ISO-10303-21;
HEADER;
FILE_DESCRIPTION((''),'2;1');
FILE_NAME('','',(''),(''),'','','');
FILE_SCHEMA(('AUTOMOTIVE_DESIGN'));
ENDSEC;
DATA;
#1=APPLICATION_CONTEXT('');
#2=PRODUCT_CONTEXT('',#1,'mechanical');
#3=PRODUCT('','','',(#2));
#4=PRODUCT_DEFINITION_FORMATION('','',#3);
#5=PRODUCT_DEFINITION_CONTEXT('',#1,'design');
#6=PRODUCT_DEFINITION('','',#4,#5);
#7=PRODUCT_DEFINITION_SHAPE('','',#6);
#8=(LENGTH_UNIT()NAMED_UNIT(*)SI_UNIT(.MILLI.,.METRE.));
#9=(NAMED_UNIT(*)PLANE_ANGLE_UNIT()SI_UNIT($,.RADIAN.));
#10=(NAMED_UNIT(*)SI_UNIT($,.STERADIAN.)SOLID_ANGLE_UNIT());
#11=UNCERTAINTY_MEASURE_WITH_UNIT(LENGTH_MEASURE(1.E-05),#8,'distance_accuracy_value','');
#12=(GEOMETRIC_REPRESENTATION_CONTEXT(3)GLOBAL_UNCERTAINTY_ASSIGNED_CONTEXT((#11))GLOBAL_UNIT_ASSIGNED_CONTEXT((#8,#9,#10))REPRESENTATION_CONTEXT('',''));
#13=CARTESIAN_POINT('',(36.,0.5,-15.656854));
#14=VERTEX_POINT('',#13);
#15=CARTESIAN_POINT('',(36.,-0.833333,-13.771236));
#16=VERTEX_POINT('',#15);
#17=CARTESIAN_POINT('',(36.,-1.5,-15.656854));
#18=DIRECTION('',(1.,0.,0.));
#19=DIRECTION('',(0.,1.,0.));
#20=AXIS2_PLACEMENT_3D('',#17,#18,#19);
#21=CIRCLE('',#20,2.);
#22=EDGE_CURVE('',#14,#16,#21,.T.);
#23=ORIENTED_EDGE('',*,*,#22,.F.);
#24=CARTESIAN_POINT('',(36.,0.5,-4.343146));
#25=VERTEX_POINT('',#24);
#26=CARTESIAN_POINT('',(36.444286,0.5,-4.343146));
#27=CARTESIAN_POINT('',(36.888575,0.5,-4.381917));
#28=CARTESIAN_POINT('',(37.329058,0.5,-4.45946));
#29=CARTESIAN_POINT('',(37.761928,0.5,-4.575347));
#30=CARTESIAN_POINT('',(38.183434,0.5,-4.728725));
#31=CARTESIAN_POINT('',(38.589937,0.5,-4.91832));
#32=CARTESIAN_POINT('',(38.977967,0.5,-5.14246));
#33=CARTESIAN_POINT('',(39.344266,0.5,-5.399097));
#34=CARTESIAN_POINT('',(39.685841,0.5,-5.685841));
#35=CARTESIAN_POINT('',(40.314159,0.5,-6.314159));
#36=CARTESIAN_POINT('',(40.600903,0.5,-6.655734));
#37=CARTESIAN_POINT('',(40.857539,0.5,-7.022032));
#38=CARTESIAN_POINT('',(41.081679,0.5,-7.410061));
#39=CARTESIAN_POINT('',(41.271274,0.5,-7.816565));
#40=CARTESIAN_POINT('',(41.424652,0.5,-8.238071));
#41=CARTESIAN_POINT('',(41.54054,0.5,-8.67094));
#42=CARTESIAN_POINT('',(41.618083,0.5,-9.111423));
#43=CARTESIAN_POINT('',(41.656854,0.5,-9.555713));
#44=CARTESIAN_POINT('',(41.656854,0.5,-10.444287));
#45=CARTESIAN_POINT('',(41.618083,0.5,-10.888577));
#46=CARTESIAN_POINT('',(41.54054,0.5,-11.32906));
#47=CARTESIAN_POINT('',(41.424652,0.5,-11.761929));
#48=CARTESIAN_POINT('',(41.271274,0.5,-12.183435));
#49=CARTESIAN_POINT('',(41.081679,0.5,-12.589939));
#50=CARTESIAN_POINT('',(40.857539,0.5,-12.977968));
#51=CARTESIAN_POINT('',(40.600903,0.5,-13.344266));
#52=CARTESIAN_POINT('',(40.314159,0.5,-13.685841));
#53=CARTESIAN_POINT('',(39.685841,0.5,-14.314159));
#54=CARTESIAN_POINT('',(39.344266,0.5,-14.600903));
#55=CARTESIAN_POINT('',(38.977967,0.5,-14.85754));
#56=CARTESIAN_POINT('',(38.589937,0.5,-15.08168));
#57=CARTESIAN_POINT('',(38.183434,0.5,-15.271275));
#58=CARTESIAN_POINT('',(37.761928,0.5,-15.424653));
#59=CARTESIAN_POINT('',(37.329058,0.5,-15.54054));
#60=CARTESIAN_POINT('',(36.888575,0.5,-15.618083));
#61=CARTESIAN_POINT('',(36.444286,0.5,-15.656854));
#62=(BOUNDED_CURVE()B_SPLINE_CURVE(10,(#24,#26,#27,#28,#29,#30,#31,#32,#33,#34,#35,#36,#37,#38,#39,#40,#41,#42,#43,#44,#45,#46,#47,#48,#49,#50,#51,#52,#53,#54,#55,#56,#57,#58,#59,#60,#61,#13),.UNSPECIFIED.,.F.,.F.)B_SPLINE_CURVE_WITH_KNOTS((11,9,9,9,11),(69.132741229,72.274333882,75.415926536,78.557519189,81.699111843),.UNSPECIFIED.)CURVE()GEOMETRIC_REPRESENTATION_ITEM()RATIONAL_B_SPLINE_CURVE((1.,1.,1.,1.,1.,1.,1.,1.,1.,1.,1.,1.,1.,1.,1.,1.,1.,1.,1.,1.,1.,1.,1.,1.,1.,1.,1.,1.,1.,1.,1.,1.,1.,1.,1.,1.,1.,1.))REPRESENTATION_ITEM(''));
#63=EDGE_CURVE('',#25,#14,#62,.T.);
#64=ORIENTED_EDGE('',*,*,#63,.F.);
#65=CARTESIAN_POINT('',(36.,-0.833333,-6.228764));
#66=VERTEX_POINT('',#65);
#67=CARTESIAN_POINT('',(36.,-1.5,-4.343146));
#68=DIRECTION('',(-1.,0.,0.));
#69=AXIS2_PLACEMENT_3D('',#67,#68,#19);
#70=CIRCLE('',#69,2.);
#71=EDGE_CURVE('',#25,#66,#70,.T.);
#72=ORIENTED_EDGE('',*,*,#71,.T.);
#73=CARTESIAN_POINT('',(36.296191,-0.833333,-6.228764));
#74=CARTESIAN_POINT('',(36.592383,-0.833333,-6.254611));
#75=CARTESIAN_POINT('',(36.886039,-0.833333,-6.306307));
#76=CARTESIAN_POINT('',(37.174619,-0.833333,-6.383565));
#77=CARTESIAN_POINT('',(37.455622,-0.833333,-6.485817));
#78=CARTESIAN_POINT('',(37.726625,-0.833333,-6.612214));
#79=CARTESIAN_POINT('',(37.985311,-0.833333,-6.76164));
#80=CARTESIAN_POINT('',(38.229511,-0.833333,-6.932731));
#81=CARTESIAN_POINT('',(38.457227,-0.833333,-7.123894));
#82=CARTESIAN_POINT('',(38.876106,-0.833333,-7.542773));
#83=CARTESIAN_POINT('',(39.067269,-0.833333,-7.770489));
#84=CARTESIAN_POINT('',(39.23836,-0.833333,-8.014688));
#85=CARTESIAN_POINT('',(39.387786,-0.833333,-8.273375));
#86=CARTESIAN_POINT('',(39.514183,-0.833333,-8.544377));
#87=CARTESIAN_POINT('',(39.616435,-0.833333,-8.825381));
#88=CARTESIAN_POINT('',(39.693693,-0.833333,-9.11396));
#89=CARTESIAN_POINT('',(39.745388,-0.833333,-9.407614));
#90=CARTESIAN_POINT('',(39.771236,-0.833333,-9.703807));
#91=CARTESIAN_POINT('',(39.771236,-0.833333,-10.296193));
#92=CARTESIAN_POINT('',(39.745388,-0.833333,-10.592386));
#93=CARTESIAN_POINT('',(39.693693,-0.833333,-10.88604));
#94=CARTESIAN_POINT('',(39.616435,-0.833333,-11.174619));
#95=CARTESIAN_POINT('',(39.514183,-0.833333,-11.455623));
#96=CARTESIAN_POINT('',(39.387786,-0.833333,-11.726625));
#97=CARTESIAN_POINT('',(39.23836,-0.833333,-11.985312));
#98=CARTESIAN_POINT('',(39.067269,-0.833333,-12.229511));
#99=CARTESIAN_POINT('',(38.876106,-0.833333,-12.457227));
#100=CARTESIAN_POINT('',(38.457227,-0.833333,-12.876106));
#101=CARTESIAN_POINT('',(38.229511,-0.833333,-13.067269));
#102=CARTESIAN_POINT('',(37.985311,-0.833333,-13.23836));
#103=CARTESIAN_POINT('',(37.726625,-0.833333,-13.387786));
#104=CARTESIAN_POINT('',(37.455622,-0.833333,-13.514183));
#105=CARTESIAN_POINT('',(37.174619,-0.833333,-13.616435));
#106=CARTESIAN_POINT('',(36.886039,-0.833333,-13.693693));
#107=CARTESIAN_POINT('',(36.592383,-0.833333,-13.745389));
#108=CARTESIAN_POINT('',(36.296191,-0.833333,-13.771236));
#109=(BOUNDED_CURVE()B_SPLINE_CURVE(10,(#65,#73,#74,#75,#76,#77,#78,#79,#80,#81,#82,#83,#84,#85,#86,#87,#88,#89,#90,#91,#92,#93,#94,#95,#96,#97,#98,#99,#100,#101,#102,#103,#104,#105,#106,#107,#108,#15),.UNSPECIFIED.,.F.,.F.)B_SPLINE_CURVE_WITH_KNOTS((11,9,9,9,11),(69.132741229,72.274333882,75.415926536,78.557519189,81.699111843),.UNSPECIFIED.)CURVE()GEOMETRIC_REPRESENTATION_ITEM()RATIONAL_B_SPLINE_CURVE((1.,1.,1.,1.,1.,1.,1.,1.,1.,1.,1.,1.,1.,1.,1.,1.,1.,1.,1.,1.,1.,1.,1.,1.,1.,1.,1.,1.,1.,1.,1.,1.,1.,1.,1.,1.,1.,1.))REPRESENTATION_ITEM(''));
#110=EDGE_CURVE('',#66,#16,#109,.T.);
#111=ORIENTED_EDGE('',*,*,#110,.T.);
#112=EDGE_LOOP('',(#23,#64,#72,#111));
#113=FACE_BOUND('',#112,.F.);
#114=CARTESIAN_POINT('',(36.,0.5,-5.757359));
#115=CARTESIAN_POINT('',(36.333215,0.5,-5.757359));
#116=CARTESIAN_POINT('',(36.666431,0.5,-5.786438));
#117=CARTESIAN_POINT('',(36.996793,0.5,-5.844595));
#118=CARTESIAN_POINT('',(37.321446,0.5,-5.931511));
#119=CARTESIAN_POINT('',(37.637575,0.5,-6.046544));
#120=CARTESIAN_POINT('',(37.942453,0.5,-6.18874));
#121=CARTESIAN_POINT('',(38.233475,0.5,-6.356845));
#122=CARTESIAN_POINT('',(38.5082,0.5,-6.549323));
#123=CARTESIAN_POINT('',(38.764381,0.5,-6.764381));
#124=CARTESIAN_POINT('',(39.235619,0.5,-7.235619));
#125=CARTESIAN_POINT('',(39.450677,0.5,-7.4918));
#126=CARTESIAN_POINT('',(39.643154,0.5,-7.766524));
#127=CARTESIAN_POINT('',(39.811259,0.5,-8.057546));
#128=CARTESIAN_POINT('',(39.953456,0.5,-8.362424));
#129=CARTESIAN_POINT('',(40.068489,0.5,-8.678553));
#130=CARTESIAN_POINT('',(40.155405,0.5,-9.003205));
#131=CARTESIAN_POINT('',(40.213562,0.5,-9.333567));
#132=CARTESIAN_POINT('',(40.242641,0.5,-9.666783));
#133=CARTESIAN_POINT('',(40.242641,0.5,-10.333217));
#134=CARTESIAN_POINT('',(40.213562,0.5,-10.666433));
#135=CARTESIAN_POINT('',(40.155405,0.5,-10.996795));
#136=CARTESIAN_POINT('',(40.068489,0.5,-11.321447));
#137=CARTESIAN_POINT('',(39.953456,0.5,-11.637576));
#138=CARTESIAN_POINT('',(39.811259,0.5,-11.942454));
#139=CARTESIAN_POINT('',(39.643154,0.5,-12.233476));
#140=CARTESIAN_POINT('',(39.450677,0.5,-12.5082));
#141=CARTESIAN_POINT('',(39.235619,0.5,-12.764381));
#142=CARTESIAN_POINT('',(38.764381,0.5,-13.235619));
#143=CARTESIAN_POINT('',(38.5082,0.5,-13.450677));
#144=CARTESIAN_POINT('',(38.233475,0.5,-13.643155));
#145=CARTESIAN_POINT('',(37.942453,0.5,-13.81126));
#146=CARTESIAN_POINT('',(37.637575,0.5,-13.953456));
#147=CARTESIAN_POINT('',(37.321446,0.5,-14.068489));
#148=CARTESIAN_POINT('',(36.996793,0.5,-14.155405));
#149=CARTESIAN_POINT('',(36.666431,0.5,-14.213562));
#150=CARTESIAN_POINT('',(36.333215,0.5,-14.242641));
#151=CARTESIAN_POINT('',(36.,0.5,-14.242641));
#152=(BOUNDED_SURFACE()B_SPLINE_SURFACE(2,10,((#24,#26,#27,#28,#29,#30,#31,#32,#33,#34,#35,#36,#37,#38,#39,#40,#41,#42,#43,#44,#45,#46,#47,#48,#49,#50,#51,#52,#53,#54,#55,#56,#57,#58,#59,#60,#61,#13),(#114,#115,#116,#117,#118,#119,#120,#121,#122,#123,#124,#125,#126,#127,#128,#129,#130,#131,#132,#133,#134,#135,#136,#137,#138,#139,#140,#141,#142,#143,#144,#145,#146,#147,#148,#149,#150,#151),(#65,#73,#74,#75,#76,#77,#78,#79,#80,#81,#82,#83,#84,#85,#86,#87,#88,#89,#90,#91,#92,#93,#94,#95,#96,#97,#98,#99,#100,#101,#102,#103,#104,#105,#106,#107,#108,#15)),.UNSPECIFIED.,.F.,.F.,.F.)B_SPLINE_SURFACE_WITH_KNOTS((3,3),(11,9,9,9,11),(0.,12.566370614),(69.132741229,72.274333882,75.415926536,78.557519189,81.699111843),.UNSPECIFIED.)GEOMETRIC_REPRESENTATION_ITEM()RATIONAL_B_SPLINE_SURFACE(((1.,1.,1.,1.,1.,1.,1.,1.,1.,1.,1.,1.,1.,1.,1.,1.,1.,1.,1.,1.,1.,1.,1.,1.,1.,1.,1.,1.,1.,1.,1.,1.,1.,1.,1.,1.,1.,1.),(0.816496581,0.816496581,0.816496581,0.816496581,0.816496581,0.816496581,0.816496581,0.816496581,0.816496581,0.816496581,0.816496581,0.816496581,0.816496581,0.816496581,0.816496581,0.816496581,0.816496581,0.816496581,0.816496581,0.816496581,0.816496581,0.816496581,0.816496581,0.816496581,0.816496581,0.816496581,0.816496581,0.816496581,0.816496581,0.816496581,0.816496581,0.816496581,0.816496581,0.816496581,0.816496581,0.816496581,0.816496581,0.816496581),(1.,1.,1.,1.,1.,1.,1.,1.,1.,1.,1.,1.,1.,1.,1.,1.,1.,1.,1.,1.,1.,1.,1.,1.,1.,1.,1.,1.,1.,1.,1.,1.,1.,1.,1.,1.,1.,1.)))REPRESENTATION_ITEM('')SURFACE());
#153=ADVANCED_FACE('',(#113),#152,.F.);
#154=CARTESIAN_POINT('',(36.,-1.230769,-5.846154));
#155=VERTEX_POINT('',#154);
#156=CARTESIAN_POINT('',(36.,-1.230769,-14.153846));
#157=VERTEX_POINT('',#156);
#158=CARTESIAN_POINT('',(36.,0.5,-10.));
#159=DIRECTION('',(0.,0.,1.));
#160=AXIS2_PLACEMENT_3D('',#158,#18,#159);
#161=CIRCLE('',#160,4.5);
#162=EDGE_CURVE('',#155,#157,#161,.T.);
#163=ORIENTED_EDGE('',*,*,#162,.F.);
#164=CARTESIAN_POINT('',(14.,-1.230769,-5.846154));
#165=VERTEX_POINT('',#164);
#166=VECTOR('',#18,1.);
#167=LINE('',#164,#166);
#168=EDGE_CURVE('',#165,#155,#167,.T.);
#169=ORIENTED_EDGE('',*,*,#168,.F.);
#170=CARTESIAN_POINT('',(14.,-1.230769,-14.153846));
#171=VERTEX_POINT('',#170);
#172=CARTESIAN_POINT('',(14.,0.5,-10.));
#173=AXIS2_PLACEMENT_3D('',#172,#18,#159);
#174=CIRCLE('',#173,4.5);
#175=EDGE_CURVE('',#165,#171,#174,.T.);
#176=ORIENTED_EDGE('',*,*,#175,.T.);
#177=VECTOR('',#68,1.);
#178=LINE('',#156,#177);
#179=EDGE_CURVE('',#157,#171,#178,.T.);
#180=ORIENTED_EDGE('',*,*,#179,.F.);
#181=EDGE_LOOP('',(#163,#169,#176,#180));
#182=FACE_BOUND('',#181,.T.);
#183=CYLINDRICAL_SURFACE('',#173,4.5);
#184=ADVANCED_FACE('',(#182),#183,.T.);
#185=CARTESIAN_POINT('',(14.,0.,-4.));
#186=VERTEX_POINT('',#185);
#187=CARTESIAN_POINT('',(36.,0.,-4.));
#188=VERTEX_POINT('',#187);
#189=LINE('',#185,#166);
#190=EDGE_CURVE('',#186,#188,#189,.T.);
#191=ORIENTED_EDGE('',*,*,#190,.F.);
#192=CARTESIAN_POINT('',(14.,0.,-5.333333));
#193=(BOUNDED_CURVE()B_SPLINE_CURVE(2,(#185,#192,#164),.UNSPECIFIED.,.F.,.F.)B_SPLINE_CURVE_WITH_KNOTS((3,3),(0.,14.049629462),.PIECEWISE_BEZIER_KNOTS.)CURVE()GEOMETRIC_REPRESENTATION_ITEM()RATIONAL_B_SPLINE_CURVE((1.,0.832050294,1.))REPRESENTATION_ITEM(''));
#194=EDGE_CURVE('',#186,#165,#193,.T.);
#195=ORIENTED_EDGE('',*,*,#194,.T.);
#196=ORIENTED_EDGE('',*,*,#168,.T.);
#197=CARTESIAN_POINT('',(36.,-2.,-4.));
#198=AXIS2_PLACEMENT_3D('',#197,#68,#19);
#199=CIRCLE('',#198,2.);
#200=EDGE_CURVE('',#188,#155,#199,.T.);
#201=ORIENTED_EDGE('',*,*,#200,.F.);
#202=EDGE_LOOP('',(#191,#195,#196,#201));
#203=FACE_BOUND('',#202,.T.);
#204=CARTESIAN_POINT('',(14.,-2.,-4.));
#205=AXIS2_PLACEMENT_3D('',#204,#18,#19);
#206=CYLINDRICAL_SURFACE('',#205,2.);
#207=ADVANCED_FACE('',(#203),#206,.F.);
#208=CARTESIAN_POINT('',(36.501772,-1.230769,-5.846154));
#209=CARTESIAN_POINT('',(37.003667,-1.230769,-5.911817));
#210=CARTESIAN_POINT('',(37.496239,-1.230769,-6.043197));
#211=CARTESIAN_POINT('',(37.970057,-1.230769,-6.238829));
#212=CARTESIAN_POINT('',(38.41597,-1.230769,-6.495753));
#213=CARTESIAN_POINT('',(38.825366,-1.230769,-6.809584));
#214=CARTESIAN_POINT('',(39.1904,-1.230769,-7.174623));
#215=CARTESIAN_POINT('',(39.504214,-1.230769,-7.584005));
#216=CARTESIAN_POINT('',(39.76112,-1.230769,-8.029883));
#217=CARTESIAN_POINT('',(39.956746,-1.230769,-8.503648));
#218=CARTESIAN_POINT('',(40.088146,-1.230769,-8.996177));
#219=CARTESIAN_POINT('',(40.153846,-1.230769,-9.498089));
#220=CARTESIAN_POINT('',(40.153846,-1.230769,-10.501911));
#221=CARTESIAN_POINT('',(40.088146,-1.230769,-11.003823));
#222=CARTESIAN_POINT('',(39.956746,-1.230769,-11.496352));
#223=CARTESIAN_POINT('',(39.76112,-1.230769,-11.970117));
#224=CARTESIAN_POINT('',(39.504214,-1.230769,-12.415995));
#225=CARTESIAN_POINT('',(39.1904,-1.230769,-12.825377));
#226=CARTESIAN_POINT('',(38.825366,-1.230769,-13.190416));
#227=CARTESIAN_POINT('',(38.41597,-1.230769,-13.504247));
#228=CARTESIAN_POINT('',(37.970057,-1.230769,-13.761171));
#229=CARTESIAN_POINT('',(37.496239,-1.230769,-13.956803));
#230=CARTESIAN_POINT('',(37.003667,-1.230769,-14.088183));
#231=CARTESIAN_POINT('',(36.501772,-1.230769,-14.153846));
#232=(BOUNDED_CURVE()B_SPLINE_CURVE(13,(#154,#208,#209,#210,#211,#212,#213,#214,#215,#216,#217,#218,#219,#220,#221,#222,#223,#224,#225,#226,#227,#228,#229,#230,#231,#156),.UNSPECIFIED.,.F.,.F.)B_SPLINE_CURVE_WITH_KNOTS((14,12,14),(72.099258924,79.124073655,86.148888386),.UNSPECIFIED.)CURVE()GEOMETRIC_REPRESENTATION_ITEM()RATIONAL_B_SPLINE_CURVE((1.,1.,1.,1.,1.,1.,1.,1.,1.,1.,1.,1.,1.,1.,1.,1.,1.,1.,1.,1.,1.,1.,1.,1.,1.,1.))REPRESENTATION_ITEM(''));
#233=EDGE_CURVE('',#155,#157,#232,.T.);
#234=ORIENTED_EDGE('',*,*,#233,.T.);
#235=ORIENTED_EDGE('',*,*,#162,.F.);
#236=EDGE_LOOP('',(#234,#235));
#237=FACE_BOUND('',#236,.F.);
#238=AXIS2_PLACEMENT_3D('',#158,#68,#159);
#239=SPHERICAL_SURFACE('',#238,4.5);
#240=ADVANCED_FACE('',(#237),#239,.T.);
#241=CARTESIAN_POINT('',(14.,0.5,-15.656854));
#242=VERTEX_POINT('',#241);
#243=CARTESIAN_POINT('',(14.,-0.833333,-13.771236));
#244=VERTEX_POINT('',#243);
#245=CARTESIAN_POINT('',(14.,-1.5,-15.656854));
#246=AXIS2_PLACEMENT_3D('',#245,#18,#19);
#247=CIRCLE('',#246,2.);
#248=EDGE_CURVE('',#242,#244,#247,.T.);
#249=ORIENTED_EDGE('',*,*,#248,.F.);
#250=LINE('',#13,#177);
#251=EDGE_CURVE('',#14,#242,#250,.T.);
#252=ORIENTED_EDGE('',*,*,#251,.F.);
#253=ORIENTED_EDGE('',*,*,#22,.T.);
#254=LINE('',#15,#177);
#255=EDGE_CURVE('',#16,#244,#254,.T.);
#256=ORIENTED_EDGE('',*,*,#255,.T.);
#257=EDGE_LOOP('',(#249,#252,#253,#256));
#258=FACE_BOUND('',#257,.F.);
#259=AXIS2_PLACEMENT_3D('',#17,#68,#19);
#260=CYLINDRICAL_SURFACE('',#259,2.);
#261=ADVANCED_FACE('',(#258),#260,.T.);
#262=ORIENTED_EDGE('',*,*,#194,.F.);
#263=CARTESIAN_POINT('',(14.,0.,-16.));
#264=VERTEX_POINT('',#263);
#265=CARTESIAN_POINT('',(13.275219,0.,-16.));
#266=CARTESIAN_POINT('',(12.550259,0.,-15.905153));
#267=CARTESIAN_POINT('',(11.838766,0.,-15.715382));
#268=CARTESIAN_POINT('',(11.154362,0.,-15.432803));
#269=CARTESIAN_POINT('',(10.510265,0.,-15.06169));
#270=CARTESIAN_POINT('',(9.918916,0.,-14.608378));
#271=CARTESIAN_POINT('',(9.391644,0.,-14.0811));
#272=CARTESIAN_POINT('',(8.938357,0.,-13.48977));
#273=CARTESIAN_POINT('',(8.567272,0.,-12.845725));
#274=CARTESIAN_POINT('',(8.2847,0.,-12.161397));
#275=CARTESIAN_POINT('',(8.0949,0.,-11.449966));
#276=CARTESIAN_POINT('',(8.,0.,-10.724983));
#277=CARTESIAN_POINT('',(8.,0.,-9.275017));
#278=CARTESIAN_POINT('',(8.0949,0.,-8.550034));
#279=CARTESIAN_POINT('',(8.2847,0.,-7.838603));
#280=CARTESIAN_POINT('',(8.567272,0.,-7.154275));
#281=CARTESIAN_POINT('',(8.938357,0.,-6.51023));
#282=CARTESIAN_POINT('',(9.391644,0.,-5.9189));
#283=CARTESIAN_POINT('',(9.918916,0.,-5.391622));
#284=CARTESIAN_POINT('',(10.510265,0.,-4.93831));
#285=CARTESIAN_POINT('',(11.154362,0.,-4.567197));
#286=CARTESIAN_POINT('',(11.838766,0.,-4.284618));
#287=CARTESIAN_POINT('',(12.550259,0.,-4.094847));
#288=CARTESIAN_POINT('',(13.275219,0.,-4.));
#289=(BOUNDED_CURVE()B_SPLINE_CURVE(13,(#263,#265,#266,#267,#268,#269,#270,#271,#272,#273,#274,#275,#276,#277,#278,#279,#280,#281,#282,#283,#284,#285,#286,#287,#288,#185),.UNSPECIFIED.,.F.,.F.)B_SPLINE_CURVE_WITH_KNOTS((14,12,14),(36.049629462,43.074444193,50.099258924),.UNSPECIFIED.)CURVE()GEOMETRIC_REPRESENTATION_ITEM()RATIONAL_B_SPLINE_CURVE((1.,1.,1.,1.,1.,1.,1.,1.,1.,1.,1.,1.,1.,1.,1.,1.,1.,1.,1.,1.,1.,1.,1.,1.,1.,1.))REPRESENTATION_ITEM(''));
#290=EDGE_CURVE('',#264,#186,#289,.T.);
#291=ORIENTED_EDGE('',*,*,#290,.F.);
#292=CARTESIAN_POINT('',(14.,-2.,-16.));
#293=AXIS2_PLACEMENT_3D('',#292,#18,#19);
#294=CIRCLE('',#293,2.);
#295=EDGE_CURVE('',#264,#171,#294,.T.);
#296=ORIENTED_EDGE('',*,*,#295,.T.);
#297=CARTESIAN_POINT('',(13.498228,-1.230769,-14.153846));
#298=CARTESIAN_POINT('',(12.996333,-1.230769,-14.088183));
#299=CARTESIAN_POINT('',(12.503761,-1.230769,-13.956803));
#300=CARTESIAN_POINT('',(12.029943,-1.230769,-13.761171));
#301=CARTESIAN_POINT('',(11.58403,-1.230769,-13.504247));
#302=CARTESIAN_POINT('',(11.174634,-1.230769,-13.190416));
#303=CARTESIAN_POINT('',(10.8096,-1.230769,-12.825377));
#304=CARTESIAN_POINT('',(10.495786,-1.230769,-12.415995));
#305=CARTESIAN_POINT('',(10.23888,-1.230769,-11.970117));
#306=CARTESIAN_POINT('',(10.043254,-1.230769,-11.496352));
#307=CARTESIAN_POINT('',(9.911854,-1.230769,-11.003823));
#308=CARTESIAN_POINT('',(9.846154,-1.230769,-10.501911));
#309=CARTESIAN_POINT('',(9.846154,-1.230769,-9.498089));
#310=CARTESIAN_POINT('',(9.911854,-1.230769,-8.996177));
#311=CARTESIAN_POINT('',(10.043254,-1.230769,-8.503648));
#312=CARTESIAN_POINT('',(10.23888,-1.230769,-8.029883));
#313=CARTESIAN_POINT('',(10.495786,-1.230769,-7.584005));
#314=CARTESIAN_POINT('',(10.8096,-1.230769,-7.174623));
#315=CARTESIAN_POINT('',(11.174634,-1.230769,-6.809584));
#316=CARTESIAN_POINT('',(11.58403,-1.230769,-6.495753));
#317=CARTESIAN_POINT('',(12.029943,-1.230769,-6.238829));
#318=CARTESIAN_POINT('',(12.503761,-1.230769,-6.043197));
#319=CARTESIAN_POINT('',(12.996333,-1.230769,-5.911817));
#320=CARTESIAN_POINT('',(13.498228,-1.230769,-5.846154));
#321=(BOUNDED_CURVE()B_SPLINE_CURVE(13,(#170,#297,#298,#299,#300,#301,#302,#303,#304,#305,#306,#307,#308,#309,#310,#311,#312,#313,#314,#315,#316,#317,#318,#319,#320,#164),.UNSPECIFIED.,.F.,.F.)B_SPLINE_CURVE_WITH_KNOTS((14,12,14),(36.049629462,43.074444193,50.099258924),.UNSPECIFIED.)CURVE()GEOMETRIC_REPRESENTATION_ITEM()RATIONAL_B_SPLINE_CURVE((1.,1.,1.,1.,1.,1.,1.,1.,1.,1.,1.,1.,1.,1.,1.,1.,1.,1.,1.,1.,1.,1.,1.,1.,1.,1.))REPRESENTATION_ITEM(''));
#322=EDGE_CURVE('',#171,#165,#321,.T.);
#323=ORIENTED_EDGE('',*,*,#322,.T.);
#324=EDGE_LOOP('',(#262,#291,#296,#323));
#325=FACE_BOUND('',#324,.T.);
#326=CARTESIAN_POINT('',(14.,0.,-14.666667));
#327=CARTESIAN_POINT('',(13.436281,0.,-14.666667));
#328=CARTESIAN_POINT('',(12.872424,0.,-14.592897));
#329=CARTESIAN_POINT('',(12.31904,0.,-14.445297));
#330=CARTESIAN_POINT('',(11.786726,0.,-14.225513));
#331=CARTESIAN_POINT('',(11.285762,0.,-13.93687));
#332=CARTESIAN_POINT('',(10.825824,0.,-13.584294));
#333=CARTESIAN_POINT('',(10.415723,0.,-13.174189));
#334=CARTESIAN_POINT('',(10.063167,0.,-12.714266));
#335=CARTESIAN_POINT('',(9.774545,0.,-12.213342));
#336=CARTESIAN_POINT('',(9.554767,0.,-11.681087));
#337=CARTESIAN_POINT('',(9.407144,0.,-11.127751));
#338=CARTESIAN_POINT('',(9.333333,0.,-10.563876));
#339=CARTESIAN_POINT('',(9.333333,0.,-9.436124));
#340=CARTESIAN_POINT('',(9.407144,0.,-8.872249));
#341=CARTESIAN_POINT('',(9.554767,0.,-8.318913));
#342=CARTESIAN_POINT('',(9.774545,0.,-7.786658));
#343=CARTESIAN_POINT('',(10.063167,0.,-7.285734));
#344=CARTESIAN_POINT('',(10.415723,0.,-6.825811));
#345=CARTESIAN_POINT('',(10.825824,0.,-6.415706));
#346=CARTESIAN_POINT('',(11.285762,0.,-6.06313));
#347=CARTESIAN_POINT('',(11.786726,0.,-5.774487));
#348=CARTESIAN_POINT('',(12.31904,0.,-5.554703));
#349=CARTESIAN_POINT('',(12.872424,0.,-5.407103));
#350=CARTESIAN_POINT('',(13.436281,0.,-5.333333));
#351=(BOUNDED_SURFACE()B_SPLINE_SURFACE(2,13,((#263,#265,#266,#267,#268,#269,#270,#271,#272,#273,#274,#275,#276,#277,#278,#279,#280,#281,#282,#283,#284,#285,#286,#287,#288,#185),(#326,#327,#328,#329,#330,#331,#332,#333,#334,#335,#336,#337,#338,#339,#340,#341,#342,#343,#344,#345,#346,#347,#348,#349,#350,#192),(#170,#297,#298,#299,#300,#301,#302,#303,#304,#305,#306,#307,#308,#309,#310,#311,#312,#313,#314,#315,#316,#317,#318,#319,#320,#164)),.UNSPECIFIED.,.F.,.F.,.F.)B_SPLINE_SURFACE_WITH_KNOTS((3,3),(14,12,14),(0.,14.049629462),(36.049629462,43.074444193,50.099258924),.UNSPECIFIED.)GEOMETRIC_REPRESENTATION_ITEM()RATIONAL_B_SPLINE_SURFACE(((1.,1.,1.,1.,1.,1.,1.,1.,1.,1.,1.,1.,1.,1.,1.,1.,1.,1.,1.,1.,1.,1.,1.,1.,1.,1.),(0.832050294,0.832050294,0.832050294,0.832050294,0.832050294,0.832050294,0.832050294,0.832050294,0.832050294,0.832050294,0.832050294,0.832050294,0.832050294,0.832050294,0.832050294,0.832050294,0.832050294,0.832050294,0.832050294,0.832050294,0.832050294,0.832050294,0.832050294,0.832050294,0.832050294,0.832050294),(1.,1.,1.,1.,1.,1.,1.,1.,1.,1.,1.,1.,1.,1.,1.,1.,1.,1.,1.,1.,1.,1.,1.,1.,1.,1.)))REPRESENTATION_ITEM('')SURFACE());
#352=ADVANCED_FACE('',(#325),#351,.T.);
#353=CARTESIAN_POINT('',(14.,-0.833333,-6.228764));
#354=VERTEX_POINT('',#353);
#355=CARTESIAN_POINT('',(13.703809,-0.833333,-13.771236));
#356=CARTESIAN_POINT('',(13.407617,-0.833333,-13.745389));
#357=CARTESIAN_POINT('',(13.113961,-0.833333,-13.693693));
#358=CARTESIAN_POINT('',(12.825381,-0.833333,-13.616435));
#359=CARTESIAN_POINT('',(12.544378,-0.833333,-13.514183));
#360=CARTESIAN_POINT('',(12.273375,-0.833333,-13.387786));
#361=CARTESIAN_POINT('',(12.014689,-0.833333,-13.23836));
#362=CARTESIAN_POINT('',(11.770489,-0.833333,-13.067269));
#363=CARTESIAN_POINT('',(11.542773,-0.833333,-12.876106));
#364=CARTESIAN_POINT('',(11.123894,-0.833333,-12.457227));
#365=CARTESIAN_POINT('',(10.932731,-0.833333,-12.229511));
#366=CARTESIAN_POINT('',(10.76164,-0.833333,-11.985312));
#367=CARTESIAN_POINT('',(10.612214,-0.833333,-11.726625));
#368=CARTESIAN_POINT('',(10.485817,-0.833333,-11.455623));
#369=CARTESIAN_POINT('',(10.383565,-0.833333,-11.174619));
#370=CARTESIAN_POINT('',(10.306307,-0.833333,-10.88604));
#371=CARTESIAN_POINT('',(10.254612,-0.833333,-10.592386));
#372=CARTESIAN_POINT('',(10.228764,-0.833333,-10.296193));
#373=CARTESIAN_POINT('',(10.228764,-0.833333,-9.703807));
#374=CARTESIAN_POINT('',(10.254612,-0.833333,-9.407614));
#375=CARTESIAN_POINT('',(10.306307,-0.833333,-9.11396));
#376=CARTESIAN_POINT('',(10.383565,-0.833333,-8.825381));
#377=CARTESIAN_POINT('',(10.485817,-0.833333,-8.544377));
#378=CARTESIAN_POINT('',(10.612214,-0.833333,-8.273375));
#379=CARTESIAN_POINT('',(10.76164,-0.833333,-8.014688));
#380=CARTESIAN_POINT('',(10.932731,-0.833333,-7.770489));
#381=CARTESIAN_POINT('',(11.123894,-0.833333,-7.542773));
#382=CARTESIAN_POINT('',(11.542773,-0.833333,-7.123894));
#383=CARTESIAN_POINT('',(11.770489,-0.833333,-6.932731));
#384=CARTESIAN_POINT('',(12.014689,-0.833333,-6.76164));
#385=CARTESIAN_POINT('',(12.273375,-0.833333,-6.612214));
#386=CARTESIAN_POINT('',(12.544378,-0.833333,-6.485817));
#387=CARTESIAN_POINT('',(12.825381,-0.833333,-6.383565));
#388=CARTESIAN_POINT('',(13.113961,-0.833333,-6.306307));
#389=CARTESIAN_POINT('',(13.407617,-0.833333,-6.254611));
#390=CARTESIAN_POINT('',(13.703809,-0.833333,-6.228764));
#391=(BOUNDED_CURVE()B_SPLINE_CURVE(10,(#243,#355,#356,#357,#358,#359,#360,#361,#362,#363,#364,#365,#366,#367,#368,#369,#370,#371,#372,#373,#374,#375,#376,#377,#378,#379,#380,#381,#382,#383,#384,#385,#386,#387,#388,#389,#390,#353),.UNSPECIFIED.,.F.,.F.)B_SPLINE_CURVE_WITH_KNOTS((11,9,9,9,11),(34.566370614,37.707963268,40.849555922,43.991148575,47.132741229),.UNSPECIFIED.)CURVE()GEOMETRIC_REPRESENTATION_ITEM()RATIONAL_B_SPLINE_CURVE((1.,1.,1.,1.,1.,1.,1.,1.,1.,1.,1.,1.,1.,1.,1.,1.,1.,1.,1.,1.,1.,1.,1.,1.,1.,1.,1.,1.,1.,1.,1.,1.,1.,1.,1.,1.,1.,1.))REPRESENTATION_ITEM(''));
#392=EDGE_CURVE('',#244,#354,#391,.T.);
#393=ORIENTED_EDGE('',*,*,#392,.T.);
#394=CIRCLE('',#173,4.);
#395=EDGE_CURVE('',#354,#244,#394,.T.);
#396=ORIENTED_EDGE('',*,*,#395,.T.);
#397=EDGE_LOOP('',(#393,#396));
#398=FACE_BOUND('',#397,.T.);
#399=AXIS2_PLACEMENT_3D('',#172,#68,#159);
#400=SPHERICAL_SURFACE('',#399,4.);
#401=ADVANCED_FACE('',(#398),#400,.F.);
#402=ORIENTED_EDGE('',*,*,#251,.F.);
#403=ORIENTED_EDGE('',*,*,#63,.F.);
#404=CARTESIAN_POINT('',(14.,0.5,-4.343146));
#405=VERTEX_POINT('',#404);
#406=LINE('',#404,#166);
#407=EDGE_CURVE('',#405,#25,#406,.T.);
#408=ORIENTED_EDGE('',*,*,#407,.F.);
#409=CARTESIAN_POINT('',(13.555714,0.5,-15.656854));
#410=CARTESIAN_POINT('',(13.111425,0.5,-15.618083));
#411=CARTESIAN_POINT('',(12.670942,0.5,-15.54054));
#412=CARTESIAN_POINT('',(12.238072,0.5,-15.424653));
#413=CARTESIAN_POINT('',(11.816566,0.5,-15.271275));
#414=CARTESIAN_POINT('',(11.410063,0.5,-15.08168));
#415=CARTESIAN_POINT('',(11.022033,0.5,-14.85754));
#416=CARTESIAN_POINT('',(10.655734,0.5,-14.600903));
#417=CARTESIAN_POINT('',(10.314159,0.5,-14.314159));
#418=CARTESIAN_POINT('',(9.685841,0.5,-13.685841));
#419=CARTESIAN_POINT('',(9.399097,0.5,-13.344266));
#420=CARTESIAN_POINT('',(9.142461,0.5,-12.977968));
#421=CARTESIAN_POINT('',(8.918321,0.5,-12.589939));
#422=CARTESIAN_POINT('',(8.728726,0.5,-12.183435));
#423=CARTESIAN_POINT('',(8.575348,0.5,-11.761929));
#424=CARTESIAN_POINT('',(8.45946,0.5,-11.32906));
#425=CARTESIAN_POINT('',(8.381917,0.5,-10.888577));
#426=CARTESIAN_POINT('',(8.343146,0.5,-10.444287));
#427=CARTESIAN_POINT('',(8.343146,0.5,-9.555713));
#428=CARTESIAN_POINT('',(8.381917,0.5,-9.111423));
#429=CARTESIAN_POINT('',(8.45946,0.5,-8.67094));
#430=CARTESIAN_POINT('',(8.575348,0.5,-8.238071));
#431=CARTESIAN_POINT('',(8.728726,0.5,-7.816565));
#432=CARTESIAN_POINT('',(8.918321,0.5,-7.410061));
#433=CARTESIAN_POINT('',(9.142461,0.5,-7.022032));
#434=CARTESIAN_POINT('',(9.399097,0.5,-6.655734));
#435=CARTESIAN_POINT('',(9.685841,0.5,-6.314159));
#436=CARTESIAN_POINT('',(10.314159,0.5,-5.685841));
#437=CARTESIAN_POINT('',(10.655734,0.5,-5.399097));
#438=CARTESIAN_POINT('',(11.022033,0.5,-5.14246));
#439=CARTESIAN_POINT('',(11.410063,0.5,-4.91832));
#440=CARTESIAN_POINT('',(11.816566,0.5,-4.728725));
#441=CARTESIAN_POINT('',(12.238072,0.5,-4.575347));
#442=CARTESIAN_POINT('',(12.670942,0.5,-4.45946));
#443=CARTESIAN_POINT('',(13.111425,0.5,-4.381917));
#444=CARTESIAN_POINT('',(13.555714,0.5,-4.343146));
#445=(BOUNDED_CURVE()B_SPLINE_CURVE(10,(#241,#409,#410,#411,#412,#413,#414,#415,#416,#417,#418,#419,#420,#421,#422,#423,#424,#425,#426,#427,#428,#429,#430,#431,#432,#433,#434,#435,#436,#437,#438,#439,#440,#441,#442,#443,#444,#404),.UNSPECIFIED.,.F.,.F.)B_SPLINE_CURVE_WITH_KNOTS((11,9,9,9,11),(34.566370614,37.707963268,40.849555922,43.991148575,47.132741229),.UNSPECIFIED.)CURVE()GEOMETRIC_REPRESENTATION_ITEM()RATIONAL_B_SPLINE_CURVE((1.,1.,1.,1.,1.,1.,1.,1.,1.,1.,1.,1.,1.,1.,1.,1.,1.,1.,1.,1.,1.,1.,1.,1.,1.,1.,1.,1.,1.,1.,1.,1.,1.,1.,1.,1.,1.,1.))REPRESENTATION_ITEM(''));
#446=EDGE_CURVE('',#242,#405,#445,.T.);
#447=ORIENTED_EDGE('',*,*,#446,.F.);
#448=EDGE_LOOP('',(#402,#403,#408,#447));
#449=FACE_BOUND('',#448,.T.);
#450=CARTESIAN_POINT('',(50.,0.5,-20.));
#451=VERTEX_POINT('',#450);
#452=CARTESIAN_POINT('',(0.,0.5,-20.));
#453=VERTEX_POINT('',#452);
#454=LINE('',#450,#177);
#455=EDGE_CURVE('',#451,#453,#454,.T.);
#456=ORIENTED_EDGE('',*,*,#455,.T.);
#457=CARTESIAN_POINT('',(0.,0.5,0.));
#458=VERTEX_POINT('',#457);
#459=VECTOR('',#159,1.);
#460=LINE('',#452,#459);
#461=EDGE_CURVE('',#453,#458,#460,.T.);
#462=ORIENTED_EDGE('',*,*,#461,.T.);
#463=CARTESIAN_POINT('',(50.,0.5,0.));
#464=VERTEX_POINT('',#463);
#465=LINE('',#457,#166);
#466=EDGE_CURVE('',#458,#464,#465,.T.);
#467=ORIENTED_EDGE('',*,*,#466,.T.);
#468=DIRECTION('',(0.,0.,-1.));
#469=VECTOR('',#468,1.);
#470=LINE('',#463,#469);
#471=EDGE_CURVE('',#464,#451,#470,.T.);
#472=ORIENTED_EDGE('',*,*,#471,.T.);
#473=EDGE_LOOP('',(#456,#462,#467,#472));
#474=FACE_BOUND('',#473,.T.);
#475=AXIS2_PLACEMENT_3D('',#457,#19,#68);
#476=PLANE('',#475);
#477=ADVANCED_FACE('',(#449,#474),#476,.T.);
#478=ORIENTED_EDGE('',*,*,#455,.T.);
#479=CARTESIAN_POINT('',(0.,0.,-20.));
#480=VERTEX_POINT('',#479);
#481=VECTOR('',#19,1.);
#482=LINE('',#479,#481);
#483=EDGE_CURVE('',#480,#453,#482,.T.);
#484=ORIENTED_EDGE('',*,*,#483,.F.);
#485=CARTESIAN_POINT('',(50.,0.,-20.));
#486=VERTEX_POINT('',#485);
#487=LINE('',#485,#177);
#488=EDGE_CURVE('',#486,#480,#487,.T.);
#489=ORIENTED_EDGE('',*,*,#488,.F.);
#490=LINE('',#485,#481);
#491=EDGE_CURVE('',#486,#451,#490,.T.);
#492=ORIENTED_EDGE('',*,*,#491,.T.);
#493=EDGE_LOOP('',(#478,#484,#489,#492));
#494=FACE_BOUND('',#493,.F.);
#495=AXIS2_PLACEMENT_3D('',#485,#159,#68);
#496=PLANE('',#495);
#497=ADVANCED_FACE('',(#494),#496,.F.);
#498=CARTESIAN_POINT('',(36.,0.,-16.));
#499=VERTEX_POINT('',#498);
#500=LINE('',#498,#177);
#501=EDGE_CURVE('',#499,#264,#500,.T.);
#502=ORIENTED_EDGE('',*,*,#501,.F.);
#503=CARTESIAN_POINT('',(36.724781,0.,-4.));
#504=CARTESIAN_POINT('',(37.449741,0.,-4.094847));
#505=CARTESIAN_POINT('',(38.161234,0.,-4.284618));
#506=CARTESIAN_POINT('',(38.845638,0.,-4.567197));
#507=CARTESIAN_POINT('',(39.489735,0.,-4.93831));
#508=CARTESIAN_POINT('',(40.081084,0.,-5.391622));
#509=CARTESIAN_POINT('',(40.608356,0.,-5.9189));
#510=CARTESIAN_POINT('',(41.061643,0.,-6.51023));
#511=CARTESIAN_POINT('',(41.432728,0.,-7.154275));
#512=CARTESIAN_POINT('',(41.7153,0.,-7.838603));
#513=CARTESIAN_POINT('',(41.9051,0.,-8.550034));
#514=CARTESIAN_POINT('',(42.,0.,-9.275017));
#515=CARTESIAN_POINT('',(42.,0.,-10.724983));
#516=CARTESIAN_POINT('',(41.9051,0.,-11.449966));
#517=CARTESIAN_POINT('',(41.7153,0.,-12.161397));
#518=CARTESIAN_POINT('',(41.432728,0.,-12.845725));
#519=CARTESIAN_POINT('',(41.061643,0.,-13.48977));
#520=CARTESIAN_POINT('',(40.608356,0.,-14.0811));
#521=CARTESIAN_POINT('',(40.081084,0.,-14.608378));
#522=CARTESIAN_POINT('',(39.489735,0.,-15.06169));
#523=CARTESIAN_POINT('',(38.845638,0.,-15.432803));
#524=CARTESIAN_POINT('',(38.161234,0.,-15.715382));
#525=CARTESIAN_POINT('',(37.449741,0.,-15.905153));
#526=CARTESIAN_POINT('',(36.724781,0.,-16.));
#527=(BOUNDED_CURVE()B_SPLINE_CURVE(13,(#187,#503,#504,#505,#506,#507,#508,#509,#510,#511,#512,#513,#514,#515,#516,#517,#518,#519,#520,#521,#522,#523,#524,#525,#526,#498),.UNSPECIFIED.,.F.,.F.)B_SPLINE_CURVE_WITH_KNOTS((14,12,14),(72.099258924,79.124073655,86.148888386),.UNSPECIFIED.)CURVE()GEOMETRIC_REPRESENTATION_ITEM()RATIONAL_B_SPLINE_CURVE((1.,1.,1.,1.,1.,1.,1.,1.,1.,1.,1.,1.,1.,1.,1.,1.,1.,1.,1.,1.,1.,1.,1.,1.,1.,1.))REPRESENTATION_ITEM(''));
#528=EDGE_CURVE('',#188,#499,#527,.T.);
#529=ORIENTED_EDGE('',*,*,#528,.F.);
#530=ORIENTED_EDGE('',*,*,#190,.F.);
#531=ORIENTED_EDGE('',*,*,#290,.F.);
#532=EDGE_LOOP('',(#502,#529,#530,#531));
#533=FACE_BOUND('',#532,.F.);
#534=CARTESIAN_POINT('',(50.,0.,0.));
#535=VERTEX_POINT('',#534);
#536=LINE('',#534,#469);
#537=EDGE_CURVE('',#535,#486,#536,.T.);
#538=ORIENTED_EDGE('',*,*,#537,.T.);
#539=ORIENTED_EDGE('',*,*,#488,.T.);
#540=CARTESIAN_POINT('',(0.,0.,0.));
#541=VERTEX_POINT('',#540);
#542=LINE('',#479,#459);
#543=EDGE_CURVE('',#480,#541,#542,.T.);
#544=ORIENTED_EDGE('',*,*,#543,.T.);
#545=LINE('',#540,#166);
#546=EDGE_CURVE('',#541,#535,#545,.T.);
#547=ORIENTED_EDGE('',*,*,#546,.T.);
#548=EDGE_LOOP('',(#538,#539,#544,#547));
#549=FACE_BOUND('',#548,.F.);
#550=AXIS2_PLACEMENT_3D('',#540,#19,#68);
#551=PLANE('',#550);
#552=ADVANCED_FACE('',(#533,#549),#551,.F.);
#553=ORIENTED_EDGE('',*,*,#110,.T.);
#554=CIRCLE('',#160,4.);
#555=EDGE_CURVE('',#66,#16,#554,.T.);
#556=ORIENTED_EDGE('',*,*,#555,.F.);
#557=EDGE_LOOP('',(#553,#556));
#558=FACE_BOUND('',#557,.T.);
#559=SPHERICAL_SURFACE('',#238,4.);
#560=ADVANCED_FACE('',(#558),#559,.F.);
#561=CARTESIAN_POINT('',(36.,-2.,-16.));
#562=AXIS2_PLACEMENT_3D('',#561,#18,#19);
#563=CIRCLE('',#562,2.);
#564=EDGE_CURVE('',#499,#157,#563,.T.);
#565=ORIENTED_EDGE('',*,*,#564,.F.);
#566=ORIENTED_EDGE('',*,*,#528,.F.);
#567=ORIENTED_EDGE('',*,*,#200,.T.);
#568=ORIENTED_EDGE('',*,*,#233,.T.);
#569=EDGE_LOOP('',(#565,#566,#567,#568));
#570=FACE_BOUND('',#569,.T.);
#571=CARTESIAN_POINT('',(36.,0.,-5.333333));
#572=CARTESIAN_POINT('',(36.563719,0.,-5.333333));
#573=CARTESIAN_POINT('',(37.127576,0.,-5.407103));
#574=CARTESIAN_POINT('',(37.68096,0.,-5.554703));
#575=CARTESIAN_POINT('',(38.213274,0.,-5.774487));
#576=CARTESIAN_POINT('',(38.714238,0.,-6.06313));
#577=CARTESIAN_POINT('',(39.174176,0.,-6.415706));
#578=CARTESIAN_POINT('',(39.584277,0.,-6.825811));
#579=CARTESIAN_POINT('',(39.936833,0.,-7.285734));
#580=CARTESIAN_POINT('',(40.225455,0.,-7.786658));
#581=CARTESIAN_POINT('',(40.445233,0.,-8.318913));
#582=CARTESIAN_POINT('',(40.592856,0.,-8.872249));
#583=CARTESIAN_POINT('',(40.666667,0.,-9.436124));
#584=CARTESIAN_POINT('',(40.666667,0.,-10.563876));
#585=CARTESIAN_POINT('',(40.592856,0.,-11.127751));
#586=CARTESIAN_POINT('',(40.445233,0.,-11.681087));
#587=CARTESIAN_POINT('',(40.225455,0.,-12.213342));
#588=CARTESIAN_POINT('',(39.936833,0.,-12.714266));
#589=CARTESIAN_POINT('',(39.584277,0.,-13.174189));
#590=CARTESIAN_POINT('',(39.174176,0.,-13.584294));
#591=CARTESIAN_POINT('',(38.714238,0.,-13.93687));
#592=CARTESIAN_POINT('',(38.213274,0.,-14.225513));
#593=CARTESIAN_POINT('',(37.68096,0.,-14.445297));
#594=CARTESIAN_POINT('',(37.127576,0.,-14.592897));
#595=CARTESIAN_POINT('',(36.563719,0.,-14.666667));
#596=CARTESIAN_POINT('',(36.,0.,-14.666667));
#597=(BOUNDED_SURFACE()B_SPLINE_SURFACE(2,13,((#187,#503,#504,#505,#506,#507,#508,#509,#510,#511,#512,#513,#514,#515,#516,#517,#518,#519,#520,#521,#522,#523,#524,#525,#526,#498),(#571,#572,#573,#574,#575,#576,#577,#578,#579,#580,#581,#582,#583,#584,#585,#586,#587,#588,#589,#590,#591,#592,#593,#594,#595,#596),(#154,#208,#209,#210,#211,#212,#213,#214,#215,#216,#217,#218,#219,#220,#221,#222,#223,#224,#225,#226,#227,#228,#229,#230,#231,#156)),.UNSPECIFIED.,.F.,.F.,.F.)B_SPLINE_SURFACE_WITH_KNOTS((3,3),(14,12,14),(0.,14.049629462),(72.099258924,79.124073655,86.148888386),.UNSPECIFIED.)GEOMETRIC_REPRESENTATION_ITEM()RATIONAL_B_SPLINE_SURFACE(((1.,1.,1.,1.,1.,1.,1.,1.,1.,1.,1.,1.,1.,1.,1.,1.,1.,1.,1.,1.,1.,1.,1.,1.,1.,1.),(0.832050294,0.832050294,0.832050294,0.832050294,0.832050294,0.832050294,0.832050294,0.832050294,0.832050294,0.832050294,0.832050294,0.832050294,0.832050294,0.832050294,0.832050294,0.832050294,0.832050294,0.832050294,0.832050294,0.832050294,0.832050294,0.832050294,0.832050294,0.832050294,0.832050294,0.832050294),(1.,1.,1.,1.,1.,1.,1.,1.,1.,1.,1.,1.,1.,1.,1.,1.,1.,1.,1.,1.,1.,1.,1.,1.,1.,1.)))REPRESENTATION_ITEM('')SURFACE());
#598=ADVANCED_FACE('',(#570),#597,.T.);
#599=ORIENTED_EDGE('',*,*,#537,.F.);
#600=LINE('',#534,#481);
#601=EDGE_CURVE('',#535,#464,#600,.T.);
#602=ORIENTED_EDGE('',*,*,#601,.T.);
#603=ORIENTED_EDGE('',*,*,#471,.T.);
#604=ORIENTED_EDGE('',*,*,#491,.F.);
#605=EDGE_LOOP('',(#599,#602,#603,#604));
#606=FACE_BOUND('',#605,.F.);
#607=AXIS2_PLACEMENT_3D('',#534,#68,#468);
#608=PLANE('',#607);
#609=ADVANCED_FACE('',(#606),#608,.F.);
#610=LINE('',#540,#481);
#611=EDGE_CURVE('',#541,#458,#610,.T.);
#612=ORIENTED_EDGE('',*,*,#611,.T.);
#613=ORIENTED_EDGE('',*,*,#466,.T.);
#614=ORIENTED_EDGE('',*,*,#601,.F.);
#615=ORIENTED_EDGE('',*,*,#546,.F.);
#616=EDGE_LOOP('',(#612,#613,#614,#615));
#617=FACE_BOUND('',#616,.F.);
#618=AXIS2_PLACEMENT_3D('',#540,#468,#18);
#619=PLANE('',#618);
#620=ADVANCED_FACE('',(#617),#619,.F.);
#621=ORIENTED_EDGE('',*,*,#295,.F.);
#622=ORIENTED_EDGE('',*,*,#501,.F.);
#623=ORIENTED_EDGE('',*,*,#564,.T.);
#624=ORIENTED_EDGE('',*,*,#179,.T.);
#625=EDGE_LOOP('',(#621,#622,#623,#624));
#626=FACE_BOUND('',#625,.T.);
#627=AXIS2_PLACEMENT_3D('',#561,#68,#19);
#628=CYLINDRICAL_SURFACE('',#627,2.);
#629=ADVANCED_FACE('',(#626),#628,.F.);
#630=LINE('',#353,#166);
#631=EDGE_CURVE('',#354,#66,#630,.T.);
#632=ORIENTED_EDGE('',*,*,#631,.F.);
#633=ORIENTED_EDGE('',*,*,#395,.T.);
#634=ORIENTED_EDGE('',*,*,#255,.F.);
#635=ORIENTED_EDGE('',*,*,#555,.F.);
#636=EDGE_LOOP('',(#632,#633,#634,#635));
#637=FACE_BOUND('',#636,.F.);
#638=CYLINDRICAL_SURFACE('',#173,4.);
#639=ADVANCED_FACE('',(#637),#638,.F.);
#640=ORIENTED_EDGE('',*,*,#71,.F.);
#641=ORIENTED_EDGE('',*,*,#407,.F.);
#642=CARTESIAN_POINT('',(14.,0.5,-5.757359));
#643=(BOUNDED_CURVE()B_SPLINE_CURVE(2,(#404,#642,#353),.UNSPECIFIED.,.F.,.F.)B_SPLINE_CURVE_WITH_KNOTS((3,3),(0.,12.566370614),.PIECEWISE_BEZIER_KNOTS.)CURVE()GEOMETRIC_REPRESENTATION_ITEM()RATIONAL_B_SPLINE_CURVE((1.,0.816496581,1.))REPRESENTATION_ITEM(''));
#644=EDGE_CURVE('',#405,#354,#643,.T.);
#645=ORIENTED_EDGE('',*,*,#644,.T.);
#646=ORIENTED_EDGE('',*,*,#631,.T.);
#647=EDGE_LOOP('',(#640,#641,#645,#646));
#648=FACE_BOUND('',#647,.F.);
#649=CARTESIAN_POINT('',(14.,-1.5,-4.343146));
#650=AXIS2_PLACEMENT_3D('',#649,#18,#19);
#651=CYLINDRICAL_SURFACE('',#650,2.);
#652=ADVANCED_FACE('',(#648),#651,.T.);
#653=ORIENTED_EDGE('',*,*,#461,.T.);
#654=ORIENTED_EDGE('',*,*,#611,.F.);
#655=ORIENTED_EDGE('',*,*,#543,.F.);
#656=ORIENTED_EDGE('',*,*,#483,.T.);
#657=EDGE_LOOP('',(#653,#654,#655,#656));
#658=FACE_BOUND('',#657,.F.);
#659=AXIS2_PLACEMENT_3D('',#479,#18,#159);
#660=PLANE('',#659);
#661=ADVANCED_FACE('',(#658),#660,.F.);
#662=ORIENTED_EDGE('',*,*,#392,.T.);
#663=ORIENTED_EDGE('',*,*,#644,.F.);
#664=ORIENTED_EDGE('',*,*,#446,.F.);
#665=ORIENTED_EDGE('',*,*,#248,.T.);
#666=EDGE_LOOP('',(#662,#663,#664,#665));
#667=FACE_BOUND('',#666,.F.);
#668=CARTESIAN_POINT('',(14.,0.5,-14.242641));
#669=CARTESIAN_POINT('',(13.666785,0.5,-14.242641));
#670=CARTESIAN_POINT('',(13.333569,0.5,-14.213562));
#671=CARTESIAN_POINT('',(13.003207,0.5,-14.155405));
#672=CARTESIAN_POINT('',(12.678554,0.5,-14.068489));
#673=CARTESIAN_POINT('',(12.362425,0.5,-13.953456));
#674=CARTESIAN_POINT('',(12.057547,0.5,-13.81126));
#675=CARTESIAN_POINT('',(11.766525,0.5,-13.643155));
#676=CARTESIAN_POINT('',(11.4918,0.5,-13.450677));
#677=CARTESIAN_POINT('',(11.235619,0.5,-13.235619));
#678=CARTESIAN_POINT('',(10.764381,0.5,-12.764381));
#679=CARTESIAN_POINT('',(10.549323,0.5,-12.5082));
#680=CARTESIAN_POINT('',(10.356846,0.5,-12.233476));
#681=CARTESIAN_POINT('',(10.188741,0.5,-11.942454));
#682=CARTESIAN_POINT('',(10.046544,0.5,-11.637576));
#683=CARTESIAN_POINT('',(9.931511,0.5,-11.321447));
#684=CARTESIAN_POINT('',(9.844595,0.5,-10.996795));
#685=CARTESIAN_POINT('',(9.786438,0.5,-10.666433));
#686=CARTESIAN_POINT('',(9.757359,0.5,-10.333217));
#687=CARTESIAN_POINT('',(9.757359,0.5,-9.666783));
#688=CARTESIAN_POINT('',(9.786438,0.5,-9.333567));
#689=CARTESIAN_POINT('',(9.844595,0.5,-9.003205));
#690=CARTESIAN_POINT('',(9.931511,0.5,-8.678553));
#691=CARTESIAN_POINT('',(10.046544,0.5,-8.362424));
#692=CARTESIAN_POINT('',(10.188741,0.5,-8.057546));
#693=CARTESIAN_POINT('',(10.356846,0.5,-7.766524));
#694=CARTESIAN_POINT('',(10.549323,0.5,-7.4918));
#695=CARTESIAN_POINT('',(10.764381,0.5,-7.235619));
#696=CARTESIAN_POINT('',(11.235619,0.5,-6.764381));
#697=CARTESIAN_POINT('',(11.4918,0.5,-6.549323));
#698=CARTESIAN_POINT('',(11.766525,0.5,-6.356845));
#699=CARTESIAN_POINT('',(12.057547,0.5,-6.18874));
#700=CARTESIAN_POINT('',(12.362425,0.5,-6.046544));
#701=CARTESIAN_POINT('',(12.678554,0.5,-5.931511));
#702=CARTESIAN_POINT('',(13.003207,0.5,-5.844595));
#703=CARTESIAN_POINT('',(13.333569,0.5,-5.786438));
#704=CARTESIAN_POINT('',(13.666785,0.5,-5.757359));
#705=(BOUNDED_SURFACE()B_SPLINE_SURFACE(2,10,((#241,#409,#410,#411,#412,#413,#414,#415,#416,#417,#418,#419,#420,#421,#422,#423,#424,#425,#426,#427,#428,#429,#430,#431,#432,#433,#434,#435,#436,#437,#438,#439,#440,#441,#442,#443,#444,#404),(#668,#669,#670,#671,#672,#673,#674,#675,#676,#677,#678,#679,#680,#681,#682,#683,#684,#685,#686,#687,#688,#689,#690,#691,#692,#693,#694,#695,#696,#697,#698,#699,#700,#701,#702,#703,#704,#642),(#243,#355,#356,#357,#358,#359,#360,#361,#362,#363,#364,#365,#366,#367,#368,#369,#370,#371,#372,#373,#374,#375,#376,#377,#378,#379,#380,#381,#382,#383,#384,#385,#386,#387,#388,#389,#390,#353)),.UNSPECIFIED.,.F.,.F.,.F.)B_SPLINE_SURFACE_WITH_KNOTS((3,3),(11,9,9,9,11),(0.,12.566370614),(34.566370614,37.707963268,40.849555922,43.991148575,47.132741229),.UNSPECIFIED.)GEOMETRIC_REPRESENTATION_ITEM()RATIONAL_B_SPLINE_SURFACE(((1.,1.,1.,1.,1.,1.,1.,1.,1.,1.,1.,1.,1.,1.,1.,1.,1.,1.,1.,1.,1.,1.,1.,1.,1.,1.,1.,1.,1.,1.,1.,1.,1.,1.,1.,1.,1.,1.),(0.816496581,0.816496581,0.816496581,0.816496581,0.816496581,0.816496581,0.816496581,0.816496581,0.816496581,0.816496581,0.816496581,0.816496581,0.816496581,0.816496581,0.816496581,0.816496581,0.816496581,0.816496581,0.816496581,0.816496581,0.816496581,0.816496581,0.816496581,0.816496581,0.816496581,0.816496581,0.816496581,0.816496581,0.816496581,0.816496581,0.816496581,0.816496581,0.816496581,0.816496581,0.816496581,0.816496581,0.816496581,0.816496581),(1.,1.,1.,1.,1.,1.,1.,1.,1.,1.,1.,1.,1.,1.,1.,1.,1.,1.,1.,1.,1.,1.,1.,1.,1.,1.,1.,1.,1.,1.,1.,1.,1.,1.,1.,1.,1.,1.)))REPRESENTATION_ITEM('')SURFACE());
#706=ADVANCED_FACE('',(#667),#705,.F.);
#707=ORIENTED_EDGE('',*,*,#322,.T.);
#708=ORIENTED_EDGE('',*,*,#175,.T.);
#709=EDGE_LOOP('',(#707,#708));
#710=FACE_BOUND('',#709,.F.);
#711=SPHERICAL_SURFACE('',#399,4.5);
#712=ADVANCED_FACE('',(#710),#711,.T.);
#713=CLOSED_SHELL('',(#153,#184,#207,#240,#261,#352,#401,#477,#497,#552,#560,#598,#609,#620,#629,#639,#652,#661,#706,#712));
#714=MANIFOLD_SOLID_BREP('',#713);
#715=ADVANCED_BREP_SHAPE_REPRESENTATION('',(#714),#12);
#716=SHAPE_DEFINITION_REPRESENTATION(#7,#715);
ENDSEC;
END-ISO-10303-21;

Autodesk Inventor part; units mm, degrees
ref_plane "YZ Plane" through (0, 0, 0) normal (1, 0, 0) x (0, 1, 0)
ref_plane "XZ Plane" through (0, 0, 0) normal (0, 1, 0) x (-1, 0, 0)
sketch "Sketch1" plane through (0, 0, 0) normal (0, 1, 0) x (-1, 0, 0)
  line L0 (0, 0) -> (-50, 0)
  line L1 (-50, 0) -> (-50, -20)
  line L2 (-50, -20) -> (0, -20)
  line L3 (0, -20) -> (0, 0)
  dimension "d0" = 50
  dimension "d1" = 20
extrude "Plate1" add sketch "Sketch1" along normal blind 0.5
sketch "Sketch2" plane through (0, 0.5, 0) normal (0, 1, 0) x (1, 0, 0)
  line L0 (14, 10) -> (36, 10) construction
  line L1 (14, 14) -> (36, 14)
  line L2 (36, 6) -> (14, 6)
  arc A0 (14, 14) -> (14, 6) centre (14, 10) ccw
  arc A1 (36, 6) -> (36, 14) centre (36, 10) ccw
  line L3 (0, 0) -> (0, 20) projected
  line L4 (50, 0) -> (0, 0) projected
  point P0 (25, 10)
  point P1 (40, 10)
  point P2 (10, 10)
  dimension "d3" = 8
  dimension "d4" = 30
  dimension "d5" = 25
  dimension "d6" = 10
extrude "Extrusion1" cut sketch "Sketch2" against normal blind 0.5
ref_plane "Work Plane1" through (36, 0.5, -6) normal (0, -1, 0) x (-1, 0, 0)
sketch "Sketch3" plane through (36, 0.5, -6) normal (0, -1, 0) x (-1, 0, 0)
  line L0 (0, 0) -> (22, 0) construction
  arc A0 (22, 0) -> (22, 8) centre (22, 4) ccw construction
  arc A1 (0, 8) -> (0, 0) centre (0, 4) ccw construction
  line L1 (22, 4) -> (0, 4) construction
  line L2 (26, 4) -> (-4, 4)
  arc A2 (22, 0) -> (26, 4) centre (22, 4) ccw
  arc A3 (0, 8) -> (0, 0) centre (0, 4) ccw projected
  line L3 (22, 0) -> (0, 0)
  arc A4 (-4, 4) -> (0, 0) centre (0, 4) ccw
  line L4 (26, 4) -> (26.5, 4)
  arc A5 (22, -0.5) -> (26.5, 4) centre (22, 4) ccw
  line L5 (22, -0.5) -> (0, -0.5)
  arc A6 (-4.5, 4) -> (0, -0.5) centre (0, 4) ccw
  line L6 (-4, 4) -> (-4.5, 4)
  point P0 (36, -6)
  dimension "d9" = 0.5
revolve "Revolution1" add sketch "Sketch3" angle 180 about axis through (10, 0.5, -10) along (1, 0, 0) contours L4 A5 L5 A6 L6 A3 L3 A2
fillet "Fillet1" radius 2 10 edges at (38.8284, 0.5, -7.1716) (38.8284, 0.5, -12.8284) (25, 0.5, -6) (25, 0.5, -14) (11.1716, 0.5, -7.1716) (11.1716, 0.5, -12.8284) (40.4721, 0, -10) (25, 0, -5.5279) (25, 0, -14.4721) (9.5279, 0, -10)
equation "\"d7\" = Thickness"
equation "\"d9\" = Thickness"
equation "\"d2\" = Thickness"
equation "\"BendRadius\" = Thickness"
equation "\"BendReliefWidth\" = Thickness"
equation "\"BendReliefDepth\" = 0.5 * Thickness"
equation "\"CornerReliefSize\" = 4 * Thickness"
equation "\"MinimumRemnant\" = 2 * Thickness"
equation "\"TransitionRadius\" = BendRadius"
equation "\"JacobiRadiusSize\" = BendRadius"
equation "\"GapSize\" = Thickness"
equation "\"Thickness\" = 0.5"
properties part number "CE-4.1.4"
